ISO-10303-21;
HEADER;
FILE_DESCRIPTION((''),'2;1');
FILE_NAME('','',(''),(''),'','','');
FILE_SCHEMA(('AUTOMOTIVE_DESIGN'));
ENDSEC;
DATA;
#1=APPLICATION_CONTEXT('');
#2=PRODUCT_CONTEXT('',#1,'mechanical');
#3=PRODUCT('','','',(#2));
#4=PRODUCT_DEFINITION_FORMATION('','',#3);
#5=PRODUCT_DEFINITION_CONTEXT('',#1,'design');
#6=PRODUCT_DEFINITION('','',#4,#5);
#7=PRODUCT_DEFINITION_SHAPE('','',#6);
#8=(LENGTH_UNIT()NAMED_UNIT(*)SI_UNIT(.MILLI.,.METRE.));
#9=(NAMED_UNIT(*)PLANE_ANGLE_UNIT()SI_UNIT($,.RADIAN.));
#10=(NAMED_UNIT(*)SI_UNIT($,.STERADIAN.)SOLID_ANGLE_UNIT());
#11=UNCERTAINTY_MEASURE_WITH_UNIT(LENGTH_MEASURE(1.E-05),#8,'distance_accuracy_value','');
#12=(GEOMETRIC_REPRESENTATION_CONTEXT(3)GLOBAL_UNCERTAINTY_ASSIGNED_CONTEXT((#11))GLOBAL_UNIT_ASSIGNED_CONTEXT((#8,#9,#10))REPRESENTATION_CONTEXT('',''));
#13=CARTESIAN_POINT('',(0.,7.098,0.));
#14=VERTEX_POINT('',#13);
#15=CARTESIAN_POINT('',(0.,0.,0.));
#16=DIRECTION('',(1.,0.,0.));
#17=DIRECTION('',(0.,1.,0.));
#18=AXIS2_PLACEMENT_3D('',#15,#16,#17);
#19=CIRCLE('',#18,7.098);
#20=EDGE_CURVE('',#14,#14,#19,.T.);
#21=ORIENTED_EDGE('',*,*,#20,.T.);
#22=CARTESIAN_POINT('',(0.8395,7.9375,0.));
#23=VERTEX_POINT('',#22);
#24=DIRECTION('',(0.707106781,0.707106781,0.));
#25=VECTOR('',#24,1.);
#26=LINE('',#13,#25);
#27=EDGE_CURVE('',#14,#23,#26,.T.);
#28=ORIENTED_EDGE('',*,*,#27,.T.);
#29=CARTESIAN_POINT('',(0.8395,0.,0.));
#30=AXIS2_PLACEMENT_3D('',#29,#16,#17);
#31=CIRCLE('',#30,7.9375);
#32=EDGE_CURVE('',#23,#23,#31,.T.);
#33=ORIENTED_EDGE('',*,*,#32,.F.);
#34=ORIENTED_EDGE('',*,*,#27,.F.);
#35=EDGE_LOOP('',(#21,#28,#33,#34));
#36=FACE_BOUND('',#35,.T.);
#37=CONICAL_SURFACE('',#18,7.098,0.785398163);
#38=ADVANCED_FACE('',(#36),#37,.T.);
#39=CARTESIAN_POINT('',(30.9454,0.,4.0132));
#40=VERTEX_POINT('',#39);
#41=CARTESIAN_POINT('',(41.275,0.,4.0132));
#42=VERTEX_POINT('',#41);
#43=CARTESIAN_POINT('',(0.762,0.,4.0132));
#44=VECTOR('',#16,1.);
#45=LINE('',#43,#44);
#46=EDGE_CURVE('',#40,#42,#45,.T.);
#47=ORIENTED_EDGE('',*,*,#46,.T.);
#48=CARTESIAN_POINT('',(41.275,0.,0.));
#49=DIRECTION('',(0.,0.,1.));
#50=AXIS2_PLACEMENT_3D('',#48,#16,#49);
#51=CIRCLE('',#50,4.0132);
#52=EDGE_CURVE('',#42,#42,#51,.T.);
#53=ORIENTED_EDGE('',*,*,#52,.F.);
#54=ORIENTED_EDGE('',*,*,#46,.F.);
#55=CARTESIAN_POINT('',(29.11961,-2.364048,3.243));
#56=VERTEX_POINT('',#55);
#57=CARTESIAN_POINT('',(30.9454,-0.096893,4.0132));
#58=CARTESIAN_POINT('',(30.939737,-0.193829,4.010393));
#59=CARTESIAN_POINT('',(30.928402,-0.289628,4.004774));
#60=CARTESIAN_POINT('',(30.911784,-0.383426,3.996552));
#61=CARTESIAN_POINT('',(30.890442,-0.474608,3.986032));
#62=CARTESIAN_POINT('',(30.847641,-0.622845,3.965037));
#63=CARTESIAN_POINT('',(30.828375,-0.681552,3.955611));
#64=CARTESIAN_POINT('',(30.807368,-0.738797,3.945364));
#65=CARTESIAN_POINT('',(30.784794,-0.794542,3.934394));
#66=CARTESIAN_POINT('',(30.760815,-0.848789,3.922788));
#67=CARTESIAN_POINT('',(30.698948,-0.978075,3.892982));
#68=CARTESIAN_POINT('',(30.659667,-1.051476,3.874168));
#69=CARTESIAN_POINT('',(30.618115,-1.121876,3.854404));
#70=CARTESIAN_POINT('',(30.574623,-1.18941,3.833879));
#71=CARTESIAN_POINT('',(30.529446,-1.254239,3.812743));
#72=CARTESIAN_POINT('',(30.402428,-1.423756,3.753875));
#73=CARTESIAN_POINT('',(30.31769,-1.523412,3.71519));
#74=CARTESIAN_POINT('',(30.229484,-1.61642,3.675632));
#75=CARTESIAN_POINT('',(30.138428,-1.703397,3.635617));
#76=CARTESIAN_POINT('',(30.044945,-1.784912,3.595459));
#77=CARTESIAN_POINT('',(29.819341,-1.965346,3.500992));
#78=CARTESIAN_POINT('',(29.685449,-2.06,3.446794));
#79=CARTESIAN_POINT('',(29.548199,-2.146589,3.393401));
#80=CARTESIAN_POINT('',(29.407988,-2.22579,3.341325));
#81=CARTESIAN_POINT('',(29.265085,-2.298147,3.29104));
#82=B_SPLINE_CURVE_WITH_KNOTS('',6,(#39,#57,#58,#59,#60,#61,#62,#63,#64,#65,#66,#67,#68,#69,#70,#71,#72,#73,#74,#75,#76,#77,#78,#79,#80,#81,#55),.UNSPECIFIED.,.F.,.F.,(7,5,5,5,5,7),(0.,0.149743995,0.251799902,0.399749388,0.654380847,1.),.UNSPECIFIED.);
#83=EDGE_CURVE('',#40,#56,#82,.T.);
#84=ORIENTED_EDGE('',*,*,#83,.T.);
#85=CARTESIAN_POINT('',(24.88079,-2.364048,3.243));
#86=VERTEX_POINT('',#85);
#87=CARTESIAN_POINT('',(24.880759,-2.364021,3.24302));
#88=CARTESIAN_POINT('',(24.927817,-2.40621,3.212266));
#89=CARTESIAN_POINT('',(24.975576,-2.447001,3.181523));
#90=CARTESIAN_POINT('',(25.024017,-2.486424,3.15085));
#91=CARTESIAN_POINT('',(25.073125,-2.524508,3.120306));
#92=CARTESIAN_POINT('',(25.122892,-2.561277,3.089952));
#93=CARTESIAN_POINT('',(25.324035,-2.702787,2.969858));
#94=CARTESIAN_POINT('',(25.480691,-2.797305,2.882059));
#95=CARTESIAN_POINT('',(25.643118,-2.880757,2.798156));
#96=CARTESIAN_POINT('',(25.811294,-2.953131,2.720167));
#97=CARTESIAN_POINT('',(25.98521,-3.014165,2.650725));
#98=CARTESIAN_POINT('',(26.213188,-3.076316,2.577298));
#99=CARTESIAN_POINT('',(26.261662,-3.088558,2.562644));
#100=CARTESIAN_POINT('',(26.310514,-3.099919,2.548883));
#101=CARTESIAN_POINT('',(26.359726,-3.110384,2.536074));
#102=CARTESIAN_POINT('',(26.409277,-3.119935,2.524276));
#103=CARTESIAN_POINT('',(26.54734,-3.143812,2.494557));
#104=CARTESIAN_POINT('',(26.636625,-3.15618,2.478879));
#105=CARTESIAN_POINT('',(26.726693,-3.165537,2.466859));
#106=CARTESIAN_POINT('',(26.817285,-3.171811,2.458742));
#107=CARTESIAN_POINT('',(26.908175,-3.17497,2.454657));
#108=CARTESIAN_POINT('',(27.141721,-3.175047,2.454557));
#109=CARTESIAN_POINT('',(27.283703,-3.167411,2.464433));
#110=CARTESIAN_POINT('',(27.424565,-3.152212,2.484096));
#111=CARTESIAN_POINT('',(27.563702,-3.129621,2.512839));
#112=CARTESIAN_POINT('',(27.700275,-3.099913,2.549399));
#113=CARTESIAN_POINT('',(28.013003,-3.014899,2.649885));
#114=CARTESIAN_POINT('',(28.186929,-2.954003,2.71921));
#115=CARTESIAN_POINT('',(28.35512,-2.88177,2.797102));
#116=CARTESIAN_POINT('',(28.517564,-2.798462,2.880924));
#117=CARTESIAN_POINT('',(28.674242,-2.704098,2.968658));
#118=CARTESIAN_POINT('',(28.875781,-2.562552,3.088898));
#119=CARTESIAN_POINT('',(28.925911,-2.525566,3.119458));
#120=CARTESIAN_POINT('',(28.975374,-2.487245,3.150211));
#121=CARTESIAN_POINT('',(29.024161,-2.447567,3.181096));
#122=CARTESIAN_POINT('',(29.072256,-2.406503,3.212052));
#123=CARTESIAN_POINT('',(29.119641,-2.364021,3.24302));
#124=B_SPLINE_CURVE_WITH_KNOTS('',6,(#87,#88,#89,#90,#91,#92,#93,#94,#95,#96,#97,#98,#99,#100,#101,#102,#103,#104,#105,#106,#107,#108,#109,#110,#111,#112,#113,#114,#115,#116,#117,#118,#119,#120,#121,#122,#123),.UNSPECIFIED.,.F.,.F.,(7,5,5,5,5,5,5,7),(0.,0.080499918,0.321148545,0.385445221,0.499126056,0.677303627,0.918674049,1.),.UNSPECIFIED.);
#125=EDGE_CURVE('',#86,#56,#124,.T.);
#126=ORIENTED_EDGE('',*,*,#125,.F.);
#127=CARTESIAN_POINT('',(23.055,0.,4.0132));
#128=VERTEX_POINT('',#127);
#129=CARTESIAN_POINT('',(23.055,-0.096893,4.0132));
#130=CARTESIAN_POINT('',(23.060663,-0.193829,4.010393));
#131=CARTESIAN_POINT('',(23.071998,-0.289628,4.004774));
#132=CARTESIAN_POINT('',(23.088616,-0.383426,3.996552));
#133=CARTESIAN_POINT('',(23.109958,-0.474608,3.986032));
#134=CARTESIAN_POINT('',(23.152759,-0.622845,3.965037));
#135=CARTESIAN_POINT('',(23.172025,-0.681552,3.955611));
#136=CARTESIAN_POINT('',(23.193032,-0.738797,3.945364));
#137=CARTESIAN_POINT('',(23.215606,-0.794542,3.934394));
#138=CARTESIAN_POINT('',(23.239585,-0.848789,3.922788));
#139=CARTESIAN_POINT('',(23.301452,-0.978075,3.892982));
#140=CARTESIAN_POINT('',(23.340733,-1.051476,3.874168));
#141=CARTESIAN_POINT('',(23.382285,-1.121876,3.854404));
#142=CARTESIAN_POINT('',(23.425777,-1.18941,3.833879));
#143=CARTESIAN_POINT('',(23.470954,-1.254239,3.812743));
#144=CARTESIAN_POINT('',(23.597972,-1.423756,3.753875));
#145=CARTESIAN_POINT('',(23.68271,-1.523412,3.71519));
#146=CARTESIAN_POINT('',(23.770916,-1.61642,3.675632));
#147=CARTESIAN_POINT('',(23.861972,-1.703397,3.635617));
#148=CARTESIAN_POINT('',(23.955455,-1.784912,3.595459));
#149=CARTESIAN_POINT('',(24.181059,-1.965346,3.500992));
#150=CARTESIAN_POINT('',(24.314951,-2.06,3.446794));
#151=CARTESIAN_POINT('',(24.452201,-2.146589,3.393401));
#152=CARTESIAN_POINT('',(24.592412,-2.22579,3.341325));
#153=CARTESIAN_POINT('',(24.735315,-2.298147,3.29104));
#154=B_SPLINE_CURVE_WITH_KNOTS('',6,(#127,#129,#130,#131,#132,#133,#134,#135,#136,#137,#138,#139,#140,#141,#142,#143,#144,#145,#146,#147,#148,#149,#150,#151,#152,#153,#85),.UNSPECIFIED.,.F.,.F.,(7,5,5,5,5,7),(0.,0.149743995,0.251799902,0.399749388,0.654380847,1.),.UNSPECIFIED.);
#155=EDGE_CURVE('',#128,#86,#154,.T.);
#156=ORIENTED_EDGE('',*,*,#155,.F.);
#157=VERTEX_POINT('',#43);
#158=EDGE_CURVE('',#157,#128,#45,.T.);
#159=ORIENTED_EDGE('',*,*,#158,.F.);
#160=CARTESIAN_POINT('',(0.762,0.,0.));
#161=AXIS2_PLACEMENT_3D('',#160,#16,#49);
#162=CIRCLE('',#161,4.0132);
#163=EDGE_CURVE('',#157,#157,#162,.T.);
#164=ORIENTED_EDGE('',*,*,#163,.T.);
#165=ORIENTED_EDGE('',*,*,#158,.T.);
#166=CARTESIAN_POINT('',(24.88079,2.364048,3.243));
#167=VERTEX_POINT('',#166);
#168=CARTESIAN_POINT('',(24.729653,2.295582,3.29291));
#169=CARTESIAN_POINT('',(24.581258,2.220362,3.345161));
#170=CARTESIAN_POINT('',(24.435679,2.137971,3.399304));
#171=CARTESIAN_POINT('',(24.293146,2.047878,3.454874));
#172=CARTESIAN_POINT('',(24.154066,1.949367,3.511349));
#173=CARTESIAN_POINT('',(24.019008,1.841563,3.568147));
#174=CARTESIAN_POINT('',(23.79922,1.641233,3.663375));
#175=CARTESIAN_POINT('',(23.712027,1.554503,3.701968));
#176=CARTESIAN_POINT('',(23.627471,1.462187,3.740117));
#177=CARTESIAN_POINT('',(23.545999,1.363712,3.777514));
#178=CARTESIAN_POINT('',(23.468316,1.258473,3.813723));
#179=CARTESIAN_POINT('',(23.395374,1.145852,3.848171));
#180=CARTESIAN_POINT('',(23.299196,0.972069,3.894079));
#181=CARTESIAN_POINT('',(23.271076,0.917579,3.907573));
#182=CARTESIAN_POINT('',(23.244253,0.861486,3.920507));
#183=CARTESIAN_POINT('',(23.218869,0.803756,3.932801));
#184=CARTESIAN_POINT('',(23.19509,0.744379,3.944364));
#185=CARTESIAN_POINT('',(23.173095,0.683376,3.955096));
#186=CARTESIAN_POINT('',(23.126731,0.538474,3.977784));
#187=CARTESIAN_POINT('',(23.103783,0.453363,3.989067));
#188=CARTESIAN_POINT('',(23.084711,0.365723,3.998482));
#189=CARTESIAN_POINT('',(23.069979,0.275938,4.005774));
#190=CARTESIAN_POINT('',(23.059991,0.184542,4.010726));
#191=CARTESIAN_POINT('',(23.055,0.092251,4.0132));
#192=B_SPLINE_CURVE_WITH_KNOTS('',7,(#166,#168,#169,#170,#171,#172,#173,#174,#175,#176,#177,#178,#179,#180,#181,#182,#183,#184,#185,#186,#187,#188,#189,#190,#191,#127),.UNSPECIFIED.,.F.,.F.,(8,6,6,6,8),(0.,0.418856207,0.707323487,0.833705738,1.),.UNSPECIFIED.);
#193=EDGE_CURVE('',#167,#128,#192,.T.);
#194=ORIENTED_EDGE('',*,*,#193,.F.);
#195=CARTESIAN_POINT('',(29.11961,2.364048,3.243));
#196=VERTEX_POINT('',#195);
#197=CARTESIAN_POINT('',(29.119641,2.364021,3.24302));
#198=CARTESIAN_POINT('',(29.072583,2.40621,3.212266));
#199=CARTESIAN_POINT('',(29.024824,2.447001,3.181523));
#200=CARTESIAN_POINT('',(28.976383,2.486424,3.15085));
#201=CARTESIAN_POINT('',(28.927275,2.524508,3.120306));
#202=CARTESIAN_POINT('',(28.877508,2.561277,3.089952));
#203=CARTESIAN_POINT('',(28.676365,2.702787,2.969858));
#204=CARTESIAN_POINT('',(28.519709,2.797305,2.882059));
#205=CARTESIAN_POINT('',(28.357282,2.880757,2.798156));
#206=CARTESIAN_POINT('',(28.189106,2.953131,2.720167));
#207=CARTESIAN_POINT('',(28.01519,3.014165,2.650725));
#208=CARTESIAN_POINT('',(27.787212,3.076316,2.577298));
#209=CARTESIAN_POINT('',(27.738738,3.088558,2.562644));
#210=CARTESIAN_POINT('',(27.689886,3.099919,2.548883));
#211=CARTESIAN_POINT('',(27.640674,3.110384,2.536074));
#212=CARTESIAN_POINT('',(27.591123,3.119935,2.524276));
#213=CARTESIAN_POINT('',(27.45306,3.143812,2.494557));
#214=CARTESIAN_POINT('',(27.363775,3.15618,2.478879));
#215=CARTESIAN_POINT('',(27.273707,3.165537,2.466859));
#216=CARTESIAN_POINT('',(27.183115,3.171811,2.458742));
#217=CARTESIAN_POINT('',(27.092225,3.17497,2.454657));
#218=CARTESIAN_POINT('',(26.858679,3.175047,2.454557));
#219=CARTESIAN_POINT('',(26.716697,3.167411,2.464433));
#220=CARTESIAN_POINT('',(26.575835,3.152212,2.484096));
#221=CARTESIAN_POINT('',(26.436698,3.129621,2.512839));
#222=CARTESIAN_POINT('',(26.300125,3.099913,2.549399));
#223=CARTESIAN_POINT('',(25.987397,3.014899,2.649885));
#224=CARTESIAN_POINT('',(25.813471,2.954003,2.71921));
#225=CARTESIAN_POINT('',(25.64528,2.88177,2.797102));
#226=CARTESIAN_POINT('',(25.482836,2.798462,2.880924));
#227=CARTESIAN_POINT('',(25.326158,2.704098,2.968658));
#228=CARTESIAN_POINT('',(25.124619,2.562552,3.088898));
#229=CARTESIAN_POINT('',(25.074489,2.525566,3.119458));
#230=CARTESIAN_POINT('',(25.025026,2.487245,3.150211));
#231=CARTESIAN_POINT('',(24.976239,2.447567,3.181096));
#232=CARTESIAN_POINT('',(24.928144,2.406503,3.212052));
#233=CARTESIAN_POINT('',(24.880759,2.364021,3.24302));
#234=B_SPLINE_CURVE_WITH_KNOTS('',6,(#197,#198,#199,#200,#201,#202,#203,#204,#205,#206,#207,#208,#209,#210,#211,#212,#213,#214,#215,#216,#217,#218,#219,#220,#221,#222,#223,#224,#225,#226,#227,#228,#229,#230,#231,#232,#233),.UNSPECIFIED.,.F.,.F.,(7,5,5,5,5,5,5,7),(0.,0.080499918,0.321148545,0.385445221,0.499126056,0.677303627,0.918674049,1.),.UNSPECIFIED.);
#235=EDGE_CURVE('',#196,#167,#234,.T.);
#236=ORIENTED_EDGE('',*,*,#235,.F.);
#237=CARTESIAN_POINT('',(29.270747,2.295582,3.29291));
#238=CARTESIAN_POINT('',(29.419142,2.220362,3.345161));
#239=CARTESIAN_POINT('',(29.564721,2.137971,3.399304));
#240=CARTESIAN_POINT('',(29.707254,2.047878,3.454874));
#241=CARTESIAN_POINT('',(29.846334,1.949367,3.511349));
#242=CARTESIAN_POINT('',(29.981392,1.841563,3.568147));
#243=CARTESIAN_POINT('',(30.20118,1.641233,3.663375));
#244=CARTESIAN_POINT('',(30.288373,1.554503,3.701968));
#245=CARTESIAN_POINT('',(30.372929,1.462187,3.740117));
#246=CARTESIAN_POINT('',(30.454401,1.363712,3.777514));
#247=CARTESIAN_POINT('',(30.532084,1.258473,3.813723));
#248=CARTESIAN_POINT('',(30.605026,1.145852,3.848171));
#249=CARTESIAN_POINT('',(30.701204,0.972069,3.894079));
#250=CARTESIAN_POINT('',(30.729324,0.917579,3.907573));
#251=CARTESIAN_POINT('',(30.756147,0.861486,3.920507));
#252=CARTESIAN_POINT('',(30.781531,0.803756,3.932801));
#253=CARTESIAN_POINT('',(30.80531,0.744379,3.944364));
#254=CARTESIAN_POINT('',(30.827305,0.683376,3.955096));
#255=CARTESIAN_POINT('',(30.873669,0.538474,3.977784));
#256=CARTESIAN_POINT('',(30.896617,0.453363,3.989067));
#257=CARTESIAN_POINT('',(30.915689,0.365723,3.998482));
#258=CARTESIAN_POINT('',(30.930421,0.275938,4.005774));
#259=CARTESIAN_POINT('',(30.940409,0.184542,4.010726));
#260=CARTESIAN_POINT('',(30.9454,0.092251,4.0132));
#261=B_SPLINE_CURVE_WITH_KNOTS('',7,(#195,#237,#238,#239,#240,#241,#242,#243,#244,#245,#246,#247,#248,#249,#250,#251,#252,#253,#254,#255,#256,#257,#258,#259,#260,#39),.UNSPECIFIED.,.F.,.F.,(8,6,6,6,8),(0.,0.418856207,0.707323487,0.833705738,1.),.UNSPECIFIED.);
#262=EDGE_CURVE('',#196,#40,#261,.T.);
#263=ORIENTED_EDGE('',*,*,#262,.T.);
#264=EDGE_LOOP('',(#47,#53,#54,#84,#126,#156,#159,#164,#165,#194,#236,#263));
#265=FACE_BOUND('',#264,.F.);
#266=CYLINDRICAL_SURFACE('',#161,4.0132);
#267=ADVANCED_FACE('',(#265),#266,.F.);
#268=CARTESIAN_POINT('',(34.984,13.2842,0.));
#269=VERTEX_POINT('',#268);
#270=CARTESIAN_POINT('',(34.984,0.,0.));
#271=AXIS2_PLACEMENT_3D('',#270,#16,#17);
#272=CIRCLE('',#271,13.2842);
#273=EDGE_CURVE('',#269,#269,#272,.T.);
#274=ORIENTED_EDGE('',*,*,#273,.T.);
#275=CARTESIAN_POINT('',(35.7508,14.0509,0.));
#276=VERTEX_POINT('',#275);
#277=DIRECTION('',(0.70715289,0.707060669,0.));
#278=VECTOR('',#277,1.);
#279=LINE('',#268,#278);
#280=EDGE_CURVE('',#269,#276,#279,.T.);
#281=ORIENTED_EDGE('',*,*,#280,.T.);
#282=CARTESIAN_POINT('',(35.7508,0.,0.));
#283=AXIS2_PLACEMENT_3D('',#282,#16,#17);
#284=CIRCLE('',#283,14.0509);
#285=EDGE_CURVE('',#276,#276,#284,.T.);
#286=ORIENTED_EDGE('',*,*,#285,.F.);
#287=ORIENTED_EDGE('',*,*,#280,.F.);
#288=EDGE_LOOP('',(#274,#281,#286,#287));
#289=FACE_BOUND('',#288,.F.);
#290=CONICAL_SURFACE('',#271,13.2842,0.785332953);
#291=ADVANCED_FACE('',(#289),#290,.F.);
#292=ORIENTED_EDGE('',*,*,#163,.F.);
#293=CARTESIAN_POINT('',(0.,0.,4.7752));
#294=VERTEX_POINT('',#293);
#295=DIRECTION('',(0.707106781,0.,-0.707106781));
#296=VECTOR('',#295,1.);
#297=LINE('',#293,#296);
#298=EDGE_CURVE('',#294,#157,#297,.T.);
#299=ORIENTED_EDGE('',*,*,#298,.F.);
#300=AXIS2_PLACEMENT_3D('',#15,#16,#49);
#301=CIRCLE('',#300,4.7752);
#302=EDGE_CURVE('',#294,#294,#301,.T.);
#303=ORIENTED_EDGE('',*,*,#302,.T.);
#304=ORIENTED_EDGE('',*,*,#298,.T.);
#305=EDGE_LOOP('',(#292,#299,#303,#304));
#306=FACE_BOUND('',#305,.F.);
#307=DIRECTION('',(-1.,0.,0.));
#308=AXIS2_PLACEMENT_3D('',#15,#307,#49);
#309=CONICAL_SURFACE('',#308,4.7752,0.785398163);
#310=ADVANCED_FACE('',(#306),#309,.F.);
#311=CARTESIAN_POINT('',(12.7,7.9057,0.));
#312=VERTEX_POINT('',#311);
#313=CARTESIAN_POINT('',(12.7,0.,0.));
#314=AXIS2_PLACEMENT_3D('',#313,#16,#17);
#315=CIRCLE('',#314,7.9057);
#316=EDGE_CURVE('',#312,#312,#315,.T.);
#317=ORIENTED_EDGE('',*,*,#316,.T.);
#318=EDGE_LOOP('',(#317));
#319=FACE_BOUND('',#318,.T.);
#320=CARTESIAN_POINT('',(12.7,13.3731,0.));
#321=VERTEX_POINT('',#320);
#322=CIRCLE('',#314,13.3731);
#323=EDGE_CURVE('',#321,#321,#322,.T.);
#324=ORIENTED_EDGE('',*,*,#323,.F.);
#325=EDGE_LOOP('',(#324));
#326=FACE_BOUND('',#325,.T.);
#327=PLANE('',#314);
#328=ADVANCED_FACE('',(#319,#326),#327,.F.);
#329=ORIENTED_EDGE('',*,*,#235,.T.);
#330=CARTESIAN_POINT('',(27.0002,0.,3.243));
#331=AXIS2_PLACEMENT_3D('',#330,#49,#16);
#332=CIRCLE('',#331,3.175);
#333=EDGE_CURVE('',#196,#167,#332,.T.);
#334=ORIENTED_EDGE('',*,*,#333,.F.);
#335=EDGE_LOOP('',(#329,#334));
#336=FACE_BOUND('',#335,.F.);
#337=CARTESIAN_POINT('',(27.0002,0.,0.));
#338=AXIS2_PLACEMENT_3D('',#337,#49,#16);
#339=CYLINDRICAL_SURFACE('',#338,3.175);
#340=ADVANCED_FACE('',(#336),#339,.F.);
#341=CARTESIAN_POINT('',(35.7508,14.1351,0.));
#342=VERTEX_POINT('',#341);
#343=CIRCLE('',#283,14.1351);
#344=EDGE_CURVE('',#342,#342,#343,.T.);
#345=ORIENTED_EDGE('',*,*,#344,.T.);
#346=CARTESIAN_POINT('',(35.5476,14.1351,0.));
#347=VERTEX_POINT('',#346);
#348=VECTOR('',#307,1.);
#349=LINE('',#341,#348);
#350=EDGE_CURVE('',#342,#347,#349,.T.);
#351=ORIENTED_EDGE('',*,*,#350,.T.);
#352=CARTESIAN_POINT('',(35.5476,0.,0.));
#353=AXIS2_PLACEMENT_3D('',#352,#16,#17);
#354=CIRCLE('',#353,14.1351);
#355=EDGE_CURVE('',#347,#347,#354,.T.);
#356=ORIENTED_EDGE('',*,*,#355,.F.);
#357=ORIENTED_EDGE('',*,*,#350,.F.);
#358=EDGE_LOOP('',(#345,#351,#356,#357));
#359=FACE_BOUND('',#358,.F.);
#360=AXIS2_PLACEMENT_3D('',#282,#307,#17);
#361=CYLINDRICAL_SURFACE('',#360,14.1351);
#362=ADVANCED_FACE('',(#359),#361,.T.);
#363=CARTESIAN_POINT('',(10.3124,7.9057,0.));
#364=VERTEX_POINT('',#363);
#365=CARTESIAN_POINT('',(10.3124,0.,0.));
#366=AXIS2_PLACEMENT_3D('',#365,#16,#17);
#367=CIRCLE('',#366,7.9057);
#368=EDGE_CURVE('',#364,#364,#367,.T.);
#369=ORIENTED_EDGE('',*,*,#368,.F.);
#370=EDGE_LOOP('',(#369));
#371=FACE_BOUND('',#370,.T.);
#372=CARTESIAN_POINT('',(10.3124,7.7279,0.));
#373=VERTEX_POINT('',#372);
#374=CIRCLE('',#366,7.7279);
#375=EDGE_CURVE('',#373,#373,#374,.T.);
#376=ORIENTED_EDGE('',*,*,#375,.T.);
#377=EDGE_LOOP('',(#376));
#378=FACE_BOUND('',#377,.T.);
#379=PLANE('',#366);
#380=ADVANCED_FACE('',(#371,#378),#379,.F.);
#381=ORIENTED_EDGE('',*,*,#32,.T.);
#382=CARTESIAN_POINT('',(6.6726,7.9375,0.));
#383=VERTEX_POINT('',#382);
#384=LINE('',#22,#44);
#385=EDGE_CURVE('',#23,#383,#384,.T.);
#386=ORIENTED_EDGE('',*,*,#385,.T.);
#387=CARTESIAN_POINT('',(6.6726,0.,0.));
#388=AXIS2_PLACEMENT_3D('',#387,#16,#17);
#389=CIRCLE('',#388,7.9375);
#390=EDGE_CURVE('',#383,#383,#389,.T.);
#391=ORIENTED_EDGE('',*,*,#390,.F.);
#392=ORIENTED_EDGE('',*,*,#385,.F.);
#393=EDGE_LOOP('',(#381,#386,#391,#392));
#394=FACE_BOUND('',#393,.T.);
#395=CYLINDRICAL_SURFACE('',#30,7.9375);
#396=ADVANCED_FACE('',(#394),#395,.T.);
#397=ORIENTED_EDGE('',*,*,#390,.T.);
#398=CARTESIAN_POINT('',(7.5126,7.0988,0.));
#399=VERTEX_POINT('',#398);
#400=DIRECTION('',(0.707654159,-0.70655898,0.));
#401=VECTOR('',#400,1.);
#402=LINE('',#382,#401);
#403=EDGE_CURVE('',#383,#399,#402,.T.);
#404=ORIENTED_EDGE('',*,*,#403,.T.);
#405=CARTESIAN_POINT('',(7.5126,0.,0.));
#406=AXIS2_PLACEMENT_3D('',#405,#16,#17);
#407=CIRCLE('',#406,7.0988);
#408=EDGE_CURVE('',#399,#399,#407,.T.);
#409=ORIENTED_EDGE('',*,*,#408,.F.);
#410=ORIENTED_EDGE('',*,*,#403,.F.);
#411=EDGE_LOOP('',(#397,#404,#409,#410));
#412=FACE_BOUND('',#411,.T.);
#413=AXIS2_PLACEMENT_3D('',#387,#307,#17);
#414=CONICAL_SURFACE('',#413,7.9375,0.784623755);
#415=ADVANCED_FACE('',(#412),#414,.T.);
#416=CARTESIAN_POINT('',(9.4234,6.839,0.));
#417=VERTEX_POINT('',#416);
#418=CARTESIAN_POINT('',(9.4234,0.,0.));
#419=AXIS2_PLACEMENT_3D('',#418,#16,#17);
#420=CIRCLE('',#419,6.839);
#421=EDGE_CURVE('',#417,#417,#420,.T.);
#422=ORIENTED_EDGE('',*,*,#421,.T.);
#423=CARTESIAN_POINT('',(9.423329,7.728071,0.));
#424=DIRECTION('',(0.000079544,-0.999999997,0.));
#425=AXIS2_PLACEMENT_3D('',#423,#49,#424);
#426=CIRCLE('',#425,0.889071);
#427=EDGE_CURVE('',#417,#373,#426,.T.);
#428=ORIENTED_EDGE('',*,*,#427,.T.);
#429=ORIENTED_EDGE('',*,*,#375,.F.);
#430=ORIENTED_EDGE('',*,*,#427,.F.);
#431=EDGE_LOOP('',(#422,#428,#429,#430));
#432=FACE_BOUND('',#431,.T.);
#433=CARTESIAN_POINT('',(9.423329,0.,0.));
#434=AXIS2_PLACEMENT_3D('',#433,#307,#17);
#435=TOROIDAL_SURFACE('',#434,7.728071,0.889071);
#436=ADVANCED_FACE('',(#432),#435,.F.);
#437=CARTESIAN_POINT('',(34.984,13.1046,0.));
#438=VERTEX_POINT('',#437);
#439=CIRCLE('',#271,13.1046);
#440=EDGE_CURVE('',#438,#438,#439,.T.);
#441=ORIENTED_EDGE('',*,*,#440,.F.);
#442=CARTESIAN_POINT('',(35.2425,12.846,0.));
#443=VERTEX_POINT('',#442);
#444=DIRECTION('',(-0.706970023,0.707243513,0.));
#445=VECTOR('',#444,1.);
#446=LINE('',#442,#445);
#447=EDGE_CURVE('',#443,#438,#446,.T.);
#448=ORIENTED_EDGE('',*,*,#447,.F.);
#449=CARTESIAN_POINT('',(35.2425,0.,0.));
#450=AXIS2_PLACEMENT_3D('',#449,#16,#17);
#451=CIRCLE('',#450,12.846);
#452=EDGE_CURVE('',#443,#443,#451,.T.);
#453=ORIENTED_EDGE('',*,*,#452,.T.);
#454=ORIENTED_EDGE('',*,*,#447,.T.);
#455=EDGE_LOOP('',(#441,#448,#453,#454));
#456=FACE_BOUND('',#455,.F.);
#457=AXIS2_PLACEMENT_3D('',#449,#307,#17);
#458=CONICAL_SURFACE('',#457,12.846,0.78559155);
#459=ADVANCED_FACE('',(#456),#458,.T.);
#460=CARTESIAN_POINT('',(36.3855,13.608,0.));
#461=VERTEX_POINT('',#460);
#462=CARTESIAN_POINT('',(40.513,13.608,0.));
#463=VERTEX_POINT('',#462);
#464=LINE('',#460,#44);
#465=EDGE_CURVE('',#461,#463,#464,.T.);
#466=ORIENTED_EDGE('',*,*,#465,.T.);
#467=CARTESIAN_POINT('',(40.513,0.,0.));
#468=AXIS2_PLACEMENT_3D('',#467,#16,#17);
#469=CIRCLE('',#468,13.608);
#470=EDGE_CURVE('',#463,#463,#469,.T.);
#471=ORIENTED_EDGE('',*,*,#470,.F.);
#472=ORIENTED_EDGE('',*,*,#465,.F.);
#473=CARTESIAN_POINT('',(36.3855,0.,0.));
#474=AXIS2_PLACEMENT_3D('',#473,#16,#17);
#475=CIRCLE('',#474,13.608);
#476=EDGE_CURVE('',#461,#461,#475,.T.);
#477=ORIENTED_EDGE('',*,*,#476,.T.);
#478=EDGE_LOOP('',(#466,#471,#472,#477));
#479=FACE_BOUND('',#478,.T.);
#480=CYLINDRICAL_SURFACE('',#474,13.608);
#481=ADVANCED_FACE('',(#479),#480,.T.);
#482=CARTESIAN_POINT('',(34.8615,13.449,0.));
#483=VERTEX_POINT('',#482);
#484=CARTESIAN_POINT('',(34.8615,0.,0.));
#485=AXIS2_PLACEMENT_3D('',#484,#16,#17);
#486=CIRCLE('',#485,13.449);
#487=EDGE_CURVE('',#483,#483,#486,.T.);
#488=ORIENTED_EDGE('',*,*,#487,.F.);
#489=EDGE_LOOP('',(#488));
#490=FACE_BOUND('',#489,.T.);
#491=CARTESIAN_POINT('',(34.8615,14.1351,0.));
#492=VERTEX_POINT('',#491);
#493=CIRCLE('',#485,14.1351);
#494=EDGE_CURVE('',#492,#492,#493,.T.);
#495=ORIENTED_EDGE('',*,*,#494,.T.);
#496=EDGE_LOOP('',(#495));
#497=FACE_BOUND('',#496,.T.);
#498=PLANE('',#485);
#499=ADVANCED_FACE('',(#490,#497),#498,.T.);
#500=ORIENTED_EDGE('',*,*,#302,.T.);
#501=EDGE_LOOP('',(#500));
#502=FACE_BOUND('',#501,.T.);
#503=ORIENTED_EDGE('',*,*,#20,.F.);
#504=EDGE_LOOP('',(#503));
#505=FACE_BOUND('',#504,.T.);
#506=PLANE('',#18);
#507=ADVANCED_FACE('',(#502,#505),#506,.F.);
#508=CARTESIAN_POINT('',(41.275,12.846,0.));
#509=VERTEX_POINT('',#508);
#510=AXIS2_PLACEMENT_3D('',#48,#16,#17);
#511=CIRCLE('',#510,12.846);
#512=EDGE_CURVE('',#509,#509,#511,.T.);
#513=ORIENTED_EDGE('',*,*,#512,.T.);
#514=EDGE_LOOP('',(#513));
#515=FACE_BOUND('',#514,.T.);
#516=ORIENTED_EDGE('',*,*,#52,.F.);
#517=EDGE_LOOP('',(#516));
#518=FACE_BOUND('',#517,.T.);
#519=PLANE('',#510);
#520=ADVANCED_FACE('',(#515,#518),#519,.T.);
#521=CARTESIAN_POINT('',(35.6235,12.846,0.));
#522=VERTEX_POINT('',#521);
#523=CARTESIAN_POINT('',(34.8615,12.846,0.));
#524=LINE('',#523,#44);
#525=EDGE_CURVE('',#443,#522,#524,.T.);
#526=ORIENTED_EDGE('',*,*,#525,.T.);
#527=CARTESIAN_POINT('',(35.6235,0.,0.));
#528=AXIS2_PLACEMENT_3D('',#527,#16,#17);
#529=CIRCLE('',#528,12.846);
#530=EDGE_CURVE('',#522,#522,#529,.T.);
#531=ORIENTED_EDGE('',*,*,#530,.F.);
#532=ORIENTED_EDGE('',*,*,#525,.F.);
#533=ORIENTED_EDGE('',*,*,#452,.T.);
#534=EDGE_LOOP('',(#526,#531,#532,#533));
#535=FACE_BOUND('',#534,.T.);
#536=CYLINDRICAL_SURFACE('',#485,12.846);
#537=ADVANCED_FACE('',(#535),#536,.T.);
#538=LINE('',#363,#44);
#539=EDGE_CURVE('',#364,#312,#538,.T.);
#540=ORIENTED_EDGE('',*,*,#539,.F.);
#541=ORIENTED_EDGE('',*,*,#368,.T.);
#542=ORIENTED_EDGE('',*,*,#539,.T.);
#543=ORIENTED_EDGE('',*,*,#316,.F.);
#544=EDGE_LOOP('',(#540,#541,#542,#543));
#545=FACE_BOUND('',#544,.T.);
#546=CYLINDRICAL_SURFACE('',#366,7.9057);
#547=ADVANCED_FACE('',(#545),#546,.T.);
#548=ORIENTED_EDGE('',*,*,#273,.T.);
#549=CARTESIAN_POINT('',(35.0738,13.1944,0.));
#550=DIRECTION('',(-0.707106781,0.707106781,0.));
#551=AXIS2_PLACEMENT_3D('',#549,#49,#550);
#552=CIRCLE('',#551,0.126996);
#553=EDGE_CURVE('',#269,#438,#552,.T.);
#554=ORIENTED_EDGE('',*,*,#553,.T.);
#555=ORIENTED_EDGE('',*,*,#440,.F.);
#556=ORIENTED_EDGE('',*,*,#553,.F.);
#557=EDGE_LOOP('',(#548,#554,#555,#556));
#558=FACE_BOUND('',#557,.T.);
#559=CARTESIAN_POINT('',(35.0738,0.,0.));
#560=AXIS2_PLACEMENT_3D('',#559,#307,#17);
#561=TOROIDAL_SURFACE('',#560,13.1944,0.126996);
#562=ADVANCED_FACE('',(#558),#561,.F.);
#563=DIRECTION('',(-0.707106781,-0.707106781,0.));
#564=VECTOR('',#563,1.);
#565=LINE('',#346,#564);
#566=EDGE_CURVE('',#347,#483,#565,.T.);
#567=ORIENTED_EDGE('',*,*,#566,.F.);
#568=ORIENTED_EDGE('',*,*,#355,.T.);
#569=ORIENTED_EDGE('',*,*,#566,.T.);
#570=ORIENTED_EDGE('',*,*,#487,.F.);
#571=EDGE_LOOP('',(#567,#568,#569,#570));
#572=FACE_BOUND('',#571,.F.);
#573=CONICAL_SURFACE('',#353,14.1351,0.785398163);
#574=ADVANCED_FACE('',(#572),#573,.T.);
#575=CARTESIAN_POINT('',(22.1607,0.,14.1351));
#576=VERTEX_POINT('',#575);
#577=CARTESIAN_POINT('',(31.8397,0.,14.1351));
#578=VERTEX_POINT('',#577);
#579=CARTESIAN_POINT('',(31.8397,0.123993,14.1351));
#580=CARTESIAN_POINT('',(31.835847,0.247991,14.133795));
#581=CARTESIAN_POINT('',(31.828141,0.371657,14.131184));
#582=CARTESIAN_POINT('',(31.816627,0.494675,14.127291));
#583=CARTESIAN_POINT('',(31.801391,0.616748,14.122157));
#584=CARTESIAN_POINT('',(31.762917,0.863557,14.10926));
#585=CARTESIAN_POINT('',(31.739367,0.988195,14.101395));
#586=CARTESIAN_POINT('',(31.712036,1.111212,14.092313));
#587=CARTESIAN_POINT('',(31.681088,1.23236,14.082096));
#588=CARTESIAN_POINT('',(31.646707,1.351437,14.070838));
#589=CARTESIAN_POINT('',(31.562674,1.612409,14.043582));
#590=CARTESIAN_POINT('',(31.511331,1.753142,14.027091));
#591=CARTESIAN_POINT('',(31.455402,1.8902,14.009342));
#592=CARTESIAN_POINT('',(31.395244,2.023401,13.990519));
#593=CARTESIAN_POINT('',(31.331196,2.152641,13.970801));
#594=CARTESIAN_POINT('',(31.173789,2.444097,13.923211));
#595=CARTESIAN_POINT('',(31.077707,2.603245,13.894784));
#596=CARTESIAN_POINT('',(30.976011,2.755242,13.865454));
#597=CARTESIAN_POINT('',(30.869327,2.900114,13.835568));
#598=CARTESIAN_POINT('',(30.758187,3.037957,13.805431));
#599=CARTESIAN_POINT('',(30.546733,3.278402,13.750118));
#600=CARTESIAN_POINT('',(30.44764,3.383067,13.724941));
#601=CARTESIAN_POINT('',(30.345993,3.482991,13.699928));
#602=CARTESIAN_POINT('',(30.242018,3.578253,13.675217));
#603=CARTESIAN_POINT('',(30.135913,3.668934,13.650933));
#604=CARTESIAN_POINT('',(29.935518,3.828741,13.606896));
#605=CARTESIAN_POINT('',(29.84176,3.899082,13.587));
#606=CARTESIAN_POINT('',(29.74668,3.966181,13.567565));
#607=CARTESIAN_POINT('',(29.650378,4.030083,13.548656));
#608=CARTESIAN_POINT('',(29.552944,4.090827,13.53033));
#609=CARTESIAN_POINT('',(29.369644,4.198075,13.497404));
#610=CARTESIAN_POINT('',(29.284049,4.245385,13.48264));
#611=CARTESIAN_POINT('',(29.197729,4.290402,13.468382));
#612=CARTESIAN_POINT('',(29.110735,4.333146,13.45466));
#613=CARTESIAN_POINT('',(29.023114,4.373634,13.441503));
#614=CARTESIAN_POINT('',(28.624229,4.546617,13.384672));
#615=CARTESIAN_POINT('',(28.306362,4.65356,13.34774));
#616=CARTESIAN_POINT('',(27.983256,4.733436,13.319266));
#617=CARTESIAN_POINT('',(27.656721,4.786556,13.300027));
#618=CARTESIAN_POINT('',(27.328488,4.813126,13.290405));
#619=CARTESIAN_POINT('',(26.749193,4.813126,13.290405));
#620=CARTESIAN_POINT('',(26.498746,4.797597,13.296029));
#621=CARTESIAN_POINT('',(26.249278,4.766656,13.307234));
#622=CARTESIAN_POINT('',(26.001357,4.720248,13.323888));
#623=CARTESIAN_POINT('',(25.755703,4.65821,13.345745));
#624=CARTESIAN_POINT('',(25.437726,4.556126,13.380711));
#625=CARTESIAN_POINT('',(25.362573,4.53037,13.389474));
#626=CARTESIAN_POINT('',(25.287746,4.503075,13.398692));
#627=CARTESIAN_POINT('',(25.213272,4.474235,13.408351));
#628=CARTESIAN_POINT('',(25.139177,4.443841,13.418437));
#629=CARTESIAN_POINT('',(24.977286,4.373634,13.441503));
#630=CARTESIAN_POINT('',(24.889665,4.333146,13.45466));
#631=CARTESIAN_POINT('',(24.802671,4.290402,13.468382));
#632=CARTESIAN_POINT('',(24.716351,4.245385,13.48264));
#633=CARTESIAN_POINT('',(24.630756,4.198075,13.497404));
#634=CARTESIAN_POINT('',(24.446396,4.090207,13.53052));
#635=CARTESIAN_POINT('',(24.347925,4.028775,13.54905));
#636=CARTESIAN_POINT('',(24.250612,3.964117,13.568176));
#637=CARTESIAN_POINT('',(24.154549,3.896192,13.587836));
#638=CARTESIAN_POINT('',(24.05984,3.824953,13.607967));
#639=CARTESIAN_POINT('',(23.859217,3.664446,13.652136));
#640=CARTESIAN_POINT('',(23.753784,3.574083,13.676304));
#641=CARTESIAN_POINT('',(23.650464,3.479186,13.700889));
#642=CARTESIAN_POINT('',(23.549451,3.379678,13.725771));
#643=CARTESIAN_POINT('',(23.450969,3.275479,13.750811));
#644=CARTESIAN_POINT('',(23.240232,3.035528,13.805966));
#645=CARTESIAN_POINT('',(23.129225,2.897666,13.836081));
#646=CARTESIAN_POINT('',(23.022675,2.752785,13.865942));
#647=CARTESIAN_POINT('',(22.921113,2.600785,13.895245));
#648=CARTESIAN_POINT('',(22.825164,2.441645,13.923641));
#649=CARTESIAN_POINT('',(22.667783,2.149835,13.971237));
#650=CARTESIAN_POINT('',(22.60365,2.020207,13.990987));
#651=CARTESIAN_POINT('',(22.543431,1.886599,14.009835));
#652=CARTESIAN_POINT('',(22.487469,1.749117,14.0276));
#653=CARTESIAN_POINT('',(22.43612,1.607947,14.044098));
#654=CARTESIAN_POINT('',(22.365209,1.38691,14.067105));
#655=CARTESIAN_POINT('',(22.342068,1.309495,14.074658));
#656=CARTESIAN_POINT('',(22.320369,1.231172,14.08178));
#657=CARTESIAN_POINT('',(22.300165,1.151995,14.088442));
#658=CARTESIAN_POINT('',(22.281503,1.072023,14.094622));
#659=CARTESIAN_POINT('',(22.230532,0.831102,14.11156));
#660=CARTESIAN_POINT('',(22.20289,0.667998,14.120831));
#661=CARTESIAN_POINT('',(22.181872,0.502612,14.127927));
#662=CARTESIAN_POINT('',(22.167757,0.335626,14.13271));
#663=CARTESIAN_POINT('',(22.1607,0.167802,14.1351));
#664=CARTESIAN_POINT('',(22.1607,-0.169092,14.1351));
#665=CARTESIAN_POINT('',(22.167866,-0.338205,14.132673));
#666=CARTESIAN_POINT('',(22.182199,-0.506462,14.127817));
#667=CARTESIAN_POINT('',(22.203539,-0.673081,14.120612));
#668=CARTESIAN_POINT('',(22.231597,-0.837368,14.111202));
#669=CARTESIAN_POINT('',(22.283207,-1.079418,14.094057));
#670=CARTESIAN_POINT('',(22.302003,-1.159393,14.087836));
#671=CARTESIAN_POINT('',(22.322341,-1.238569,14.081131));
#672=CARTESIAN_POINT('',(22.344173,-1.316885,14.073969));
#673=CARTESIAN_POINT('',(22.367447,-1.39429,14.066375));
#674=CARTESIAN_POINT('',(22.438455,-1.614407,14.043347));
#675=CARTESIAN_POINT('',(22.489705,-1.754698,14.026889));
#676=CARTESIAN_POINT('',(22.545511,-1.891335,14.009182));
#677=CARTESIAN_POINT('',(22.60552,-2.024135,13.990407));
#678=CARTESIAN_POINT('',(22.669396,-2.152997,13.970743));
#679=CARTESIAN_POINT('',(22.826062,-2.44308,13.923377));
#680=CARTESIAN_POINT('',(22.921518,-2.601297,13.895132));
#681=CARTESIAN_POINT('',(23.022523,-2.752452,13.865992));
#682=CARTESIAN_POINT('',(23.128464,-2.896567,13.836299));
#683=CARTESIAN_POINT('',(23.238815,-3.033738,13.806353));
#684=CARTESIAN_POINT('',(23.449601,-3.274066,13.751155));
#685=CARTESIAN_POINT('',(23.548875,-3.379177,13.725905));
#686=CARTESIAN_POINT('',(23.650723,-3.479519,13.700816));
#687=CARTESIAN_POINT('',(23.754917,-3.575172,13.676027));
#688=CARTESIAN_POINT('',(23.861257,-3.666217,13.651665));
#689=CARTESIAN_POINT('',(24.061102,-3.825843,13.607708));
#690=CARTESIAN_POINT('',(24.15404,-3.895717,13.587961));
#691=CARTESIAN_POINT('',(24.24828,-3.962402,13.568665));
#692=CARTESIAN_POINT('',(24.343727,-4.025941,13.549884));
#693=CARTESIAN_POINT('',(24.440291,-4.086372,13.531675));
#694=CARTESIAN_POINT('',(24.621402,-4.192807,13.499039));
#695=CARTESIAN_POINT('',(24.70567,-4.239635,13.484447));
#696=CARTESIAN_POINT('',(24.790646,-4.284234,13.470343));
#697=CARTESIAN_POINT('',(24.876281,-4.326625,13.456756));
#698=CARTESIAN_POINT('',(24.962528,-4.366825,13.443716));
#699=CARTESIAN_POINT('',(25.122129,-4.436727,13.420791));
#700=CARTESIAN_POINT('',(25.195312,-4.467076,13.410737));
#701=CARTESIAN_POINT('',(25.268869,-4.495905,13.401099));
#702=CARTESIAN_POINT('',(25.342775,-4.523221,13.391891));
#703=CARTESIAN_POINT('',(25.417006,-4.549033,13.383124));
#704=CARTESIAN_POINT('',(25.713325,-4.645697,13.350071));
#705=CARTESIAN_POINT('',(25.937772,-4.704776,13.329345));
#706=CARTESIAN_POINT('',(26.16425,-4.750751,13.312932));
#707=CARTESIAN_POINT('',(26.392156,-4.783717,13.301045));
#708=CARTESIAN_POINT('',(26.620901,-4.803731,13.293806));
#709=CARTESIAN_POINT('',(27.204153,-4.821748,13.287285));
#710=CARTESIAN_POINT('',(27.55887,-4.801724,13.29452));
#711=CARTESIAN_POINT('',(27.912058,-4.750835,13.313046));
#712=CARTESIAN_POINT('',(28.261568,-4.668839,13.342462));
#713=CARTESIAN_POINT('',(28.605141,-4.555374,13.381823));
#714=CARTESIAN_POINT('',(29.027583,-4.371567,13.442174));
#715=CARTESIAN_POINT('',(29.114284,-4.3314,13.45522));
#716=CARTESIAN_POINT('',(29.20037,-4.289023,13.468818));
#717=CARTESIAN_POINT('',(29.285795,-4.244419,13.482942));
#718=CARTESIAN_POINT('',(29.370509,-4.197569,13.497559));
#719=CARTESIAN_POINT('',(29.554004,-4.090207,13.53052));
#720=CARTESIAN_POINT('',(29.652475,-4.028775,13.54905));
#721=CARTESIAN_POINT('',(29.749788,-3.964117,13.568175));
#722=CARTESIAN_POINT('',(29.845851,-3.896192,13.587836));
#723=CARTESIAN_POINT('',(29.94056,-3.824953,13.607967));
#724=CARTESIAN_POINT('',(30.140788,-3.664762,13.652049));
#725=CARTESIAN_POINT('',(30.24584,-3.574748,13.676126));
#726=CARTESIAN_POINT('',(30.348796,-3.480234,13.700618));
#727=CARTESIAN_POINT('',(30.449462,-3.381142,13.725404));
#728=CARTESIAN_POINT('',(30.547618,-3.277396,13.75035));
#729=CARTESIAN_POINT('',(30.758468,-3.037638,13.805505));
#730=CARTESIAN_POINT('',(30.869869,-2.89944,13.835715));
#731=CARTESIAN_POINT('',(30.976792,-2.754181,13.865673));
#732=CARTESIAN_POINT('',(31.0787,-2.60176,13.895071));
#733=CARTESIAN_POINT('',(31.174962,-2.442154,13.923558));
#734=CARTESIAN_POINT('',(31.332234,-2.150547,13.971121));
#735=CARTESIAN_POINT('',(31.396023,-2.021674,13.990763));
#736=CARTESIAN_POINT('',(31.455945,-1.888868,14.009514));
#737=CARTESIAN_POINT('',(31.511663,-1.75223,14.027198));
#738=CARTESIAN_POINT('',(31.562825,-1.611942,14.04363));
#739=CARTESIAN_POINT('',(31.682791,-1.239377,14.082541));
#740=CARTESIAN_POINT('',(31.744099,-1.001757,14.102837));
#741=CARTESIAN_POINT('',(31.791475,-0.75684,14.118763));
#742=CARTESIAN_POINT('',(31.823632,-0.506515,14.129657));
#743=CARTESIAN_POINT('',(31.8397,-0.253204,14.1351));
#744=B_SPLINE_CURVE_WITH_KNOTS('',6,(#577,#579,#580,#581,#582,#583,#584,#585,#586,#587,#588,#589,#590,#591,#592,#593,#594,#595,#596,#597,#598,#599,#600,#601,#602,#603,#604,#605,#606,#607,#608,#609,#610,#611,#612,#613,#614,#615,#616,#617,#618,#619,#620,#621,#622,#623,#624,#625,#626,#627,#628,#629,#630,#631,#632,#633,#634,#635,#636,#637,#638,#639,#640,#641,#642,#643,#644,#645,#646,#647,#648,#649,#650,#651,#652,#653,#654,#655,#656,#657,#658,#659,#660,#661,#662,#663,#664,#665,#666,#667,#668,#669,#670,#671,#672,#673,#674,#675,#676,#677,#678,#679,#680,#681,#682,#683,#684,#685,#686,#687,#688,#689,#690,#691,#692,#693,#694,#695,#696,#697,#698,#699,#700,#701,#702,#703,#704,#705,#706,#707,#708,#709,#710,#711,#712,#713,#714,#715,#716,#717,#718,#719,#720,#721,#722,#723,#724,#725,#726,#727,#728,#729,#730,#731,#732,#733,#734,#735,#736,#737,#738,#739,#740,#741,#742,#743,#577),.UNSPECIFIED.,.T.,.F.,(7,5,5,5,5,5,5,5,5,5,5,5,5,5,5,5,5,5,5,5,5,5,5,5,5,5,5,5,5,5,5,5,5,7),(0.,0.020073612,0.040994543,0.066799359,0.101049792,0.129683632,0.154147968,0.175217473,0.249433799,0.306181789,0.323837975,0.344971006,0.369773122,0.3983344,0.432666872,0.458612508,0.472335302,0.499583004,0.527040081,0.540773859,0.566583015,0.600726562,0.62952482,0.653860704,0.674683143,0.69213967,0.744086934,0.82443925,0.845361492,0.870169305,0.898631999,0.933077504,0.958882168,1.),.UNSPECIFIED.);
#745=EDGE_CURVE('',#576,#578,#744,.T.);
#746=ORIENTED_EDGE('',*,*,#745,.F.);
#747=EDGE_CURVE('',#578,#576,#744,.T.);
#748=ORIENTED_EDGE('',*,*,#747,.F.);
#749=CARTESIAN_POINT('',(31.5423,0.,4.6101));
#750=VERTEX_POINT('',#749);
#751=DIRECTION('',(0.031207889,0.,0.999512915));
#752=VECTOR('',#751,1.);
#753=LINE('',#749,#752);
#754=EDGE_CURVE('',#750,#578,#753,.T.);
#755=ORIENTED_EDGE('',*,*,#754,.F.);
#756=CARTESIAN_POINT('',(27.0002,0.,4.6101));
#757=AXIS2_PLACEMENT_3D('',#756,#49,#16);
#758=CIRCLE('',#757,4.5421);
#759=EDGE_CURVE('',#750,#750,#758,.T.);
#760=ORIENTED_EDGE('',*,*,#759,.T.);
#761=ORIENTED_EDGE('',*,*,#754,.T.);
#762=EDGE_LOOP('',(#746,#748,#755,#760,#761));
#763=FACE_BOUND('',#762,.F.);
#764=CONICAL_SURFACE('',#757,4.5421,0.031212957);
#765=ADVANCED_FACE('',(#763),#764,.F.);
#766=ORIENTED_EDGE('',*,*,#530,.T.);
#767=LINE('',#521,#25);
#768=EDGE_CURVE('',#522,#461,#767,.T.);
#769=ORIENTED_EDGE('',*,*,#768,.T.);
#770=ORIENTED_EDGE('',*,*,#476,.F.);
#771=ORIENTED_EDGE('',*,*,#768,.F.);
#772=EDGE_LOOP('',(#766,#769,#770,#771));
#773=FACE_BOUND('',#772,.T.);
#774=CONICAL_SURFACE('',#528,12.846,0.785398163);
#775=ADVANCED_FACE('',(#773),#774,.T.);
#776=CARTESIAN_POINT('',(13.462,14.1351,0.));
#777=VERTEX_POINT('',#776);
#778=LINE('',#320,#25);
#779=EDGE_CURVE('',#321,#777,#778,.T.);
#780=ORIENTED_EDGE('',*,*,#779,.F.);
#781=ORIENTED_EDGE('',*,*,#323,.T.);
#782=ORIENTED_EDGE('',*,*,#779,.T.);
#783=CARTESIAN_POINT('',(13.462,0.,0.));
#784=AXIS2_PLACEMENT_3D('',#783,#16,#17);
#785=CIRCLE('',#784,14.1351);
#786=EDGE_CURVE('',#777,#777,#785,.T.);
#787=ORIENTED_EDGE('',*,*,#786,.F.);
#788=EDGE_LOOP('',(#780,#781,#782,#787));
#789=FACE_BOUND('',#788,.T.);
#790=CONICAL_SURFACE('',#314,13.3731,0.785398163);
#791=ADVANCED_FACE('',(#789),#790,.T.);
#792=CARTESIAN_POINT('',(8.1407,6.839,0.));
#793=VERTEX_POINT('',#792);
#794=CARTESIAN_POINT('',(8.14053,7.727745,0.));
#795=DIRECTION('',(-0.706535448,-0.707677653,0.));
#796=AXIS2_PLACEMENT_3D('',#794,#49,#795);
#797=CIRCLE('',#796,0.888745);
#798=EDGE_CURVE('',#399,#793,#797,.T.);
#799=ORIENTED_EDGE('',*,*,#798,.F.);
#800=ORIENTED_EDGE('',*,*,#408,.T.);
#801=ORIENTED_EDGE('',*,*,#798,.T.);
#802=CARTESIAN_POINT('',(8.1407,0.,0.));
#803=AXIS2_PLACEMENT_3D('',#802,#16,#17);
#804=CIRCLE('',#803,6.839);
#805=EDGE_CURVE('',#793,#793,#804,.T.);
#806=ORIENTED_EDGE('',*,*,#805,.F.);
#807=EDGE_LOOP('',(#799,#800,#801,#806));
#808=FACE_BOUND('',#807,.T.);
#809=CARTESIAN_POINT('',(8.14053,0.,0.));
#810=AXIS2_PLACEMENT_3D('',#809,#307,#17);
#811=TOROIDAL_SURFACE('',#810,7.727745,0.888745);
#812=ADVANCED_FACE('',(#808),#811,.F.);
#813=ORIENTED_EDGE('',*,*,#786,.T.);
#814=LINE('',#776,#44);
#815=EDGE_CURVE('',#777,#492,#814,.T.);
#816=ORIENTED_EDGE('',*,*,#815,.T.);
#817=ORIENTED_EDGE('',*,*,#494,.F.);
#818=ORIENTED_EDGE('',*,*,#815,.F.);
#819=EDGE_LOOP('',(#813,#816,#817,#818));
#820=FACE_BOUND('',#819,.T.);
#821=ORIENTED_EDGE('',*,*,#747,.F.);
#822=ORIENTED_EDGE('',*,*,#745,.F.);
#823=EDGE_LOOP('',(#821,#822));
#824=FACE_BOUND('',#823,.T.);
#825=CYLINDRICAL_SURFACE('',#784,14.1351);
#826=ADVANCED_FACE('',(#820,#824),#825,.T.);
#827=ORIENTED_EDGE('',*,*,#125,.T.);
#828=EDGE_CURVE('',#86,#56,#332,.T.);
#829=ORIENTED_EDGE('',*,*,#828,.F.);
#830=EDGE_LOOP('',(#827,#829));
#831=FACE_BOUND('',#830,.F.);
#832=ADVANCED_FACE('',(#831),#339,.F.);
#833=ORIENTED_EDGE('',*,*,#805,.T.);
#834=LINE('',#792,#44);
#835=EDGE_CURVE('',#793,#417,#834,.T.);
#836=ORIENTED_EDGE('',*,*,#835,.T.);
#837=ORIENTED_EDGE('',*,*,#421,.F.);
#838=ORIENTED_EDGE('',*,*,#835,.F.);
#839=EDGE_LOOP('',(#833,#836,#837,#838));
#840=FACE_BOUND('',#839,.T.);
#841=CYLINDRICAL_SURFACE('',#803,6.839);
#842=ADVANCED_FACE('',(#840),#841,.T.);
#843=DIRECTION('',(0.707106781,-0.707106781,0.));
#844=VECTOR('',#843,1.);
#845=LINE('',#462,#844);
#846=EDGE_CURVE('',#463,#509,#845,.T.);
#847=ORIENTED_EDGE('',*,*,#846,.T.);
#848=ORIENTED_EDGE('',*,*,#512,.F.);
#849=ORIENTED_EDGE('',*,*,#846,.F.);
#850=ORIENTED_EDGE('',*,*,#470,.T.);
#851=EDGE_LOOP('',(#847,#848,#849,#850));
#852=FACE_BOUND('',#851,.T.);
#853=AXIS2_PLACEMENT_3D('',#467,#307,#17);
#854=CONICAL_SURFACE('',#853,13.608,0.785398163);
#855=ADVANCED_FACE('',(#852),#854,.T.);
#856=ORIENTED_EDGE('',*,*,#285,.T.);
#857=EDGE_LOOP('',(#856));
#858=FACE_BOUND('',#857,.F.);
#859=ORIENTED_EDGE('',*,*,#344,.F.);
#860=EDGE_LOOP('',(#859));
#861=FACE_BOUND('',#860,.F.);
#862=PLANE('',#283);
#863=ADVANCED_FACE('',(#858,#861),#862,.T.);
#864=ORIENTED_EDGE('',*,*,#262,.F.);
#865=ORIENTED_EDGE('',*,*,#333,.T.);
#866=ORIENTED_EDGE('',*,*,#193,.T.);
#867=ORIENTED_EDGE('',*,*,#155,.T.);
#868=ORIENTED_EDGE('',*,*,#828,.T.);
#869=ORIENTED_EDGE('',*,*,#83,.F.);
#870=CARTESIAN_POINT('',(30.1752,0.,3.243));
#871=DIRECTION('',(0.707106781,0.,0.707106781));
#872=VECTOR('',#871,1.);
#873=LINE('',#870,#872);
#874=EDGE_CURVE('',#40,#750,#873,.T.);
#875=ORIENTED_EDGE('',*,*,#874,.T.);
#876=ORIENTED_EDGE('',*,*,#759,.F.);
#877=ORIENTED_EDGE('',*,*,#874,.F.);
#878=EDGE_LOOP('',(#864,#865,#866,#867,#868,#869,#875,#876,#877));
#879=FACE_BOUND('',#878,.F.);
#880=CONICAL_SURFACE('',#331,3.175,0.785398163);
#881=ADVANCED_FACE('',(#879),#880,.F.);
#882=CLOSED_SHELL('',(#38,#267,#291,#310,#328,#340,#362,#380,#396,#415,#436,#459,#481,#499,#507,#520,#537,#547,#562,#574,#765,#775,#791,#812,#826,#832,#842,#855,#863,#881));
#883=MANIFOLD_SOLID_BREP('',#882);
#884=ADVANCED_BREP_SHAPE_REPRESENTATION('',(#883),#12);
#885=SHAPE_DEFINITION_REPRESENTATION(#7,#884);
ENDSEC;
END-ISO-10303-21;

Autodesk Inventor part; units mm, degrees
sketch "Sketch_2" plane through (0, 0, 0) normal (0, 0, 1) x (1, 0, 0)
  line L0 (12.7, 0) -> (0, 0)
  line L1 (0, 0) -> (0, 7.098)
  line L2 (0, 7.098) -> (0.8395, 7.9375)
  line L3 (0.8395, 7.9375) -> (6.6726, 7.9375)
  line L4 (6.6726, 7.9375) -> (7.5126, 7.0988)
  arc A0 (7.5126, 7.0988) -> (8.1407, 6.839) centre (8.1407, 7.728) ccw
  line L5 (8.1407, 6.839) -> (9.4234, 6.839)
  arc A1 (9.4234, 6.839) -> (10.3124, 7.7279) centre (9.4234, 7.7279) ccw
  line L6 (10.3124, 7.7279) -> (10.3124, 7.9057)
  line L7 (10.3124, 7.9057) -> (12.7, 7.9057)
  line L8 (12.7, 7.9057) -> (12.7, 0)
  line L9 (12.7, 0) -> (0, 0)
revolve "Revolution1" add sketch "Sketch_2" angle 360 about axis through (12.7, 0, 0) along (1, 0, 0)
thread "Thread1" size "5/8-18 UNF" class "2A" standard "ANSI Unified Screw Threads" full length
sketch "Sketch_3" plane through (0, 0, 0) normal (0, 0, 1) x (1, 0, 0)
  line L0 (41.275, 0) -> (12.7, 0)
  line L1 (12.7, 0) -> (12.7, 13.3731)
  line L2 (12.7, 13.3731) -> (13.462, 14.1351)
  line L3 (13.462, 14.1351) -> (34.8615, 14.1351)
  line L4 (34.8615, 14.1351) -> (34.8615, 12.846)
  line L5 (34.8615, 12.846) -> (35.6235, 12.846)
  line L6 (35.6235, 12.846) -> (36.3855, 13.608)
  line L7 (36.3855, 13.608) -> (40.513, 13.608)
  line L8 (40.513, 13.608) -> (41.275, 12.846)
  line L9 (41.275, 12.846) -> (41.275, 0)
  line L10 (41.275, 0) -> (12.7, 0)
revolve "Revolution2" add sketch "Sketch_3" angle 360 about axis through (41.275, 0, 0) along (1, 0, 0)
sketch "Sketch3" plane through (0, 0, 0) normal (-1, 0, 0) x (0, 0, 1)
  point P0 (0, 0)
hole "Hole1" at (0, 0, 0) direction (1, 0, 0) diameter 8.0264 depth 41.275 countersink diameter 9.5504 countersink angle 90
sketch "Sketch_40" plane through (0, 0, 0) normal (0, 1, 0) x (-1, 0, 0)
  line L0 (-27.0002, 14.1351) -> (-27.0002, 0)
  line L1 (-27.0002, 0) -> (-30.1752, 0)
  line L2 (-30.1752, 0) -> (-30.1752, 3.243)
  line L3 (-30.1752, 3.243) -> (-31.5423, 4.6101)
  line L4 (-31.5423, 4.6101) -> (-31.8397, 14.1351)
  line L5 (-31.8397, 14.1351) -> (-27.0002, 14.1351)
  line L6 (-27.0002, 14.1351) -> (-27.0002, 0)
revolve "Revolution3" cut sketch "Sketch_40" angle 360 about axis through (27.0002, 0, 14.1351) along (0, 0, 1)
sketch "Sketch_47" plane through (0, 0, 0) normal (0, 0, 1) x (1, 0, 0)
  line L0 (35.6235, 0) -> (34.8615, 0)
  line L1 (34.8615, 12.5921) -> (35.6235, 12.5921)
  line L2 (35.6235, 12.5921) -> (35.6235, 12.846)
  line L3 (35.6235, 12.846) -> (35.2425, 12.846)
  line L4 (35.2425, 12.846) -> (34.984, 13.1046)
  arc A0 (34.984, 13.2842) -> (34.984, 13.1046) centre (35.0738, 13.1944) ccw
  line L5 (34.984, 13.2842) -> (35.7508, 14.0509)
  line L6 (35.7508, 14.0509) -> (35.7508, 14.1351)
  line L7 (35.7508, 14.1351) -> (35.5476, 14.1351)
  line L8 (35.5476, 14.1351) -> (34.8615, 13.449)
  line L9 (34.8615, 13.449) -> (34.8615, 12.5921)
revolve "Revolution4" add sketch "Sketch_47" angle 360 about axis through (35.6235, 0, 0) along (1, 0, 0)
ref_plane "dp1_XY" through (12.7, 7.9057, 0) normal (0, 0, 1) x (1, 0, 0)
ref_plane "dp1_YZ" through (12.7, 7.9057, 0) normal (1, 0, 0) x (0, 1, 0)
ref_plane "dp1_ZX" through (12.7, 7.9057, 0) normal (0, 1, 0) x (0, 0, 1)
ref_plane "dp2_XY" through (12.7, -7.9057, 0) normal (0, 0, 1) x (1, 0, 0)
ref_plane "dp2_YZ" through (12.7, -7.9057, 0) normal (1, 0, 0) x (0, 1, 0)
ref_plane "dp2_ZX" through (12.7, -7.9057, 0) normal (0, 1, 0) x (0, 0, 1)
ref_plane "port_XY" through (27.0002, 0, 0) normal (0, 0, 1) x (1, 0, 0)
ref_plane "port_YZ" through (27.0002, 0, 0) normal (1, 0, 0) x (0, 1, 0)
ref_plane "port_ZX" through (27.0002, 0, 0) normal (0, 1, 0) x (0, 0, 1)
ref_plane "rod_guide_XY" through (0, 0, 0) normal (1, 0, 0) x (0, 0, -1)
ref_plane "rod_guide_YZ" through (0, 0, 0) normal (0, 0, -1) x (0, 1, 0)
ref_plane "rod_guide_ZX" through (0, 0, 0) normal (0, 1, 0) x (1, 0, 0)
ref_plane "s1_XY" through (10.3124, 0, 0) normal (0, 0, 1) x (1, 0, 0)
ref_plane "s1_YZ" through (10.3124, 0, 0) normal (1, 0, 0) x (0, 1, 0)
ref_plane "s1_ZX" through (10.3124, 0, 0) normal (0, 1, 0) x (0, 0, 1)
ref_plane "s2_XY" through (12.7, 0, 0) normal (0, 0, 1) x (1, 0, 0)
ref_plane "s2_YZ" through (12.7, 0, 0) normal (1, 0, 0) x (0, 1, 0)
ref_plane "s2_ZX" through (12.7, 0, 0) normal (0, 1, 0) x (0, 0, 1)
ref_plane "t1_XY" through (12.7, 0, 0) normal (1, 0, 0) x (0, 0, -1)
ref_plane "t1_YZ" through (12.7, 0, 0) normal (0, 0, -1) x (0, 1, 0)
ref_plane "t1_ZX" through (12.7, 0, 0) normal (0, 1, 0) x (1, 0, 0)
ref_plane "t111_XY" through (12.7, 0, 0) normal (1, 0, 0) x (0, 0, -1)
ref_plane "t111_YZ" through (12.7, 0, 0) normal (0, 0, -1) x (0, 1, 0)
ref_plane "t111_ZX" through (12.7, 0, 0) normal (0, 1, 0) x (1, 0, 0)
ref_plane "to_foot_bracket_XY" through (12.7, 0, 0) normal (1, 0, 0) x (0, 0, -1)
ref_plane "to_foot_bracket_YZ" through (12.7, 0, 0) normal (0, 0, -1) x (0, 1, 0)
ref_plane "to_foot_bracket_ZX" through (12.7, 0, 0) normal (0, 1, 0) x (1, 0, 0)
ref_plane "to_nut_XY" through (10.3124, 0, 0) normal (1, 0, 0) x (0, 0, -1)
ref_plane "to_nut_YZ" through (10.3124, 0, 0) normal (0, 0, -1) x (0, 1, 0)
ref_plane "to_nut_ZX" through (10.3124, 0, 0) normal (0, 1, 0) x (1, 0, 0)
ref_plane "to_rod_XY" through (0, 0, 0) normal (1, 0, 0) x (0, 0, -1)
ref_plane "to_rod_YZ" through (0, 0, 0) normal (0, 0, -1) x (0, 1, 0)
ref_plane "to_rod_ZX" through (0, 0, 0) normal (0, 1, 0) x (1, 0, 0)
ref_plane "to_screw_XY" through (27.0002, 10.2743, -7.0485) normal (0, 1, 0) x (1, 0, 0)
ref_plane "to_screw_YZ" through (27.0002, 10.2743, -7.0485) normal (1, 0, 0) x (0, 0, -1)
ref_plane "to_screw_ZX" through (27.0002, 10.2743, -7.0485) normal (0, 0, -1) x (0, 1, 0)
ref_plane "to_trunnion_brackets_XY" through (18.2118, 0, 0) normal (0, 1, 0) x (1, 0, 0)
ref_plane "to_trunnion_brackets_YZ" through (18.2118, 0, 0) normal (1, 0, 0) x (0, 0, -1)
ref_plane "to_trunnion_brackets_ZX" through (18.2118, 0, 0) normal (0, 0, -1) x (0, 1, 0)
ref_plane "to_trunnion_brackets1_XY" through (18.2118, 15.875, 0) normal (0, 1, 0) x (1, 0, 0)
ref_plane "to_trunnion_brackets1_YZ" through (18.2118, 15.875, 0) normal (1, 0, 0) x (0, 0, -1)
ref_plane "to_trunnion_brackets1_ZX" through (18.2118, 15.875, 0) normal (0, 0, -1) x (0, 1, 0)
ref_plane "to_trunnion_brackets2_XY" through (18.2118, -15.875, 0) normal (0, 1, 0) x (1, 0, 0)
ref_plane "to_trunnion_brackets2_YZ" through (18.2118, -15.875, 0) normal (1, 0, 0) x (0, 0, -1)
ref_plane "to_trunnion_brackets2_ZX" through (18.2118, -15.875, 0) normal (0, 0, -1) x (0, 1, 0)
ref_plane "to_tube_XY" through (35.6235, 0, 0) normal (1, 0, 0) x (0, 0, -1)
ref_plane "to_tube_YZ" through (35.6235, 0, 0) normal (0, 0, -1) x (0, 1, 0)
ref_plane "to_tube_ZX" through (35.6235, 0, 0) normal (0, 1, 0) x (1, 0, 0)
properties part number "09R000-0_rod_guide"
